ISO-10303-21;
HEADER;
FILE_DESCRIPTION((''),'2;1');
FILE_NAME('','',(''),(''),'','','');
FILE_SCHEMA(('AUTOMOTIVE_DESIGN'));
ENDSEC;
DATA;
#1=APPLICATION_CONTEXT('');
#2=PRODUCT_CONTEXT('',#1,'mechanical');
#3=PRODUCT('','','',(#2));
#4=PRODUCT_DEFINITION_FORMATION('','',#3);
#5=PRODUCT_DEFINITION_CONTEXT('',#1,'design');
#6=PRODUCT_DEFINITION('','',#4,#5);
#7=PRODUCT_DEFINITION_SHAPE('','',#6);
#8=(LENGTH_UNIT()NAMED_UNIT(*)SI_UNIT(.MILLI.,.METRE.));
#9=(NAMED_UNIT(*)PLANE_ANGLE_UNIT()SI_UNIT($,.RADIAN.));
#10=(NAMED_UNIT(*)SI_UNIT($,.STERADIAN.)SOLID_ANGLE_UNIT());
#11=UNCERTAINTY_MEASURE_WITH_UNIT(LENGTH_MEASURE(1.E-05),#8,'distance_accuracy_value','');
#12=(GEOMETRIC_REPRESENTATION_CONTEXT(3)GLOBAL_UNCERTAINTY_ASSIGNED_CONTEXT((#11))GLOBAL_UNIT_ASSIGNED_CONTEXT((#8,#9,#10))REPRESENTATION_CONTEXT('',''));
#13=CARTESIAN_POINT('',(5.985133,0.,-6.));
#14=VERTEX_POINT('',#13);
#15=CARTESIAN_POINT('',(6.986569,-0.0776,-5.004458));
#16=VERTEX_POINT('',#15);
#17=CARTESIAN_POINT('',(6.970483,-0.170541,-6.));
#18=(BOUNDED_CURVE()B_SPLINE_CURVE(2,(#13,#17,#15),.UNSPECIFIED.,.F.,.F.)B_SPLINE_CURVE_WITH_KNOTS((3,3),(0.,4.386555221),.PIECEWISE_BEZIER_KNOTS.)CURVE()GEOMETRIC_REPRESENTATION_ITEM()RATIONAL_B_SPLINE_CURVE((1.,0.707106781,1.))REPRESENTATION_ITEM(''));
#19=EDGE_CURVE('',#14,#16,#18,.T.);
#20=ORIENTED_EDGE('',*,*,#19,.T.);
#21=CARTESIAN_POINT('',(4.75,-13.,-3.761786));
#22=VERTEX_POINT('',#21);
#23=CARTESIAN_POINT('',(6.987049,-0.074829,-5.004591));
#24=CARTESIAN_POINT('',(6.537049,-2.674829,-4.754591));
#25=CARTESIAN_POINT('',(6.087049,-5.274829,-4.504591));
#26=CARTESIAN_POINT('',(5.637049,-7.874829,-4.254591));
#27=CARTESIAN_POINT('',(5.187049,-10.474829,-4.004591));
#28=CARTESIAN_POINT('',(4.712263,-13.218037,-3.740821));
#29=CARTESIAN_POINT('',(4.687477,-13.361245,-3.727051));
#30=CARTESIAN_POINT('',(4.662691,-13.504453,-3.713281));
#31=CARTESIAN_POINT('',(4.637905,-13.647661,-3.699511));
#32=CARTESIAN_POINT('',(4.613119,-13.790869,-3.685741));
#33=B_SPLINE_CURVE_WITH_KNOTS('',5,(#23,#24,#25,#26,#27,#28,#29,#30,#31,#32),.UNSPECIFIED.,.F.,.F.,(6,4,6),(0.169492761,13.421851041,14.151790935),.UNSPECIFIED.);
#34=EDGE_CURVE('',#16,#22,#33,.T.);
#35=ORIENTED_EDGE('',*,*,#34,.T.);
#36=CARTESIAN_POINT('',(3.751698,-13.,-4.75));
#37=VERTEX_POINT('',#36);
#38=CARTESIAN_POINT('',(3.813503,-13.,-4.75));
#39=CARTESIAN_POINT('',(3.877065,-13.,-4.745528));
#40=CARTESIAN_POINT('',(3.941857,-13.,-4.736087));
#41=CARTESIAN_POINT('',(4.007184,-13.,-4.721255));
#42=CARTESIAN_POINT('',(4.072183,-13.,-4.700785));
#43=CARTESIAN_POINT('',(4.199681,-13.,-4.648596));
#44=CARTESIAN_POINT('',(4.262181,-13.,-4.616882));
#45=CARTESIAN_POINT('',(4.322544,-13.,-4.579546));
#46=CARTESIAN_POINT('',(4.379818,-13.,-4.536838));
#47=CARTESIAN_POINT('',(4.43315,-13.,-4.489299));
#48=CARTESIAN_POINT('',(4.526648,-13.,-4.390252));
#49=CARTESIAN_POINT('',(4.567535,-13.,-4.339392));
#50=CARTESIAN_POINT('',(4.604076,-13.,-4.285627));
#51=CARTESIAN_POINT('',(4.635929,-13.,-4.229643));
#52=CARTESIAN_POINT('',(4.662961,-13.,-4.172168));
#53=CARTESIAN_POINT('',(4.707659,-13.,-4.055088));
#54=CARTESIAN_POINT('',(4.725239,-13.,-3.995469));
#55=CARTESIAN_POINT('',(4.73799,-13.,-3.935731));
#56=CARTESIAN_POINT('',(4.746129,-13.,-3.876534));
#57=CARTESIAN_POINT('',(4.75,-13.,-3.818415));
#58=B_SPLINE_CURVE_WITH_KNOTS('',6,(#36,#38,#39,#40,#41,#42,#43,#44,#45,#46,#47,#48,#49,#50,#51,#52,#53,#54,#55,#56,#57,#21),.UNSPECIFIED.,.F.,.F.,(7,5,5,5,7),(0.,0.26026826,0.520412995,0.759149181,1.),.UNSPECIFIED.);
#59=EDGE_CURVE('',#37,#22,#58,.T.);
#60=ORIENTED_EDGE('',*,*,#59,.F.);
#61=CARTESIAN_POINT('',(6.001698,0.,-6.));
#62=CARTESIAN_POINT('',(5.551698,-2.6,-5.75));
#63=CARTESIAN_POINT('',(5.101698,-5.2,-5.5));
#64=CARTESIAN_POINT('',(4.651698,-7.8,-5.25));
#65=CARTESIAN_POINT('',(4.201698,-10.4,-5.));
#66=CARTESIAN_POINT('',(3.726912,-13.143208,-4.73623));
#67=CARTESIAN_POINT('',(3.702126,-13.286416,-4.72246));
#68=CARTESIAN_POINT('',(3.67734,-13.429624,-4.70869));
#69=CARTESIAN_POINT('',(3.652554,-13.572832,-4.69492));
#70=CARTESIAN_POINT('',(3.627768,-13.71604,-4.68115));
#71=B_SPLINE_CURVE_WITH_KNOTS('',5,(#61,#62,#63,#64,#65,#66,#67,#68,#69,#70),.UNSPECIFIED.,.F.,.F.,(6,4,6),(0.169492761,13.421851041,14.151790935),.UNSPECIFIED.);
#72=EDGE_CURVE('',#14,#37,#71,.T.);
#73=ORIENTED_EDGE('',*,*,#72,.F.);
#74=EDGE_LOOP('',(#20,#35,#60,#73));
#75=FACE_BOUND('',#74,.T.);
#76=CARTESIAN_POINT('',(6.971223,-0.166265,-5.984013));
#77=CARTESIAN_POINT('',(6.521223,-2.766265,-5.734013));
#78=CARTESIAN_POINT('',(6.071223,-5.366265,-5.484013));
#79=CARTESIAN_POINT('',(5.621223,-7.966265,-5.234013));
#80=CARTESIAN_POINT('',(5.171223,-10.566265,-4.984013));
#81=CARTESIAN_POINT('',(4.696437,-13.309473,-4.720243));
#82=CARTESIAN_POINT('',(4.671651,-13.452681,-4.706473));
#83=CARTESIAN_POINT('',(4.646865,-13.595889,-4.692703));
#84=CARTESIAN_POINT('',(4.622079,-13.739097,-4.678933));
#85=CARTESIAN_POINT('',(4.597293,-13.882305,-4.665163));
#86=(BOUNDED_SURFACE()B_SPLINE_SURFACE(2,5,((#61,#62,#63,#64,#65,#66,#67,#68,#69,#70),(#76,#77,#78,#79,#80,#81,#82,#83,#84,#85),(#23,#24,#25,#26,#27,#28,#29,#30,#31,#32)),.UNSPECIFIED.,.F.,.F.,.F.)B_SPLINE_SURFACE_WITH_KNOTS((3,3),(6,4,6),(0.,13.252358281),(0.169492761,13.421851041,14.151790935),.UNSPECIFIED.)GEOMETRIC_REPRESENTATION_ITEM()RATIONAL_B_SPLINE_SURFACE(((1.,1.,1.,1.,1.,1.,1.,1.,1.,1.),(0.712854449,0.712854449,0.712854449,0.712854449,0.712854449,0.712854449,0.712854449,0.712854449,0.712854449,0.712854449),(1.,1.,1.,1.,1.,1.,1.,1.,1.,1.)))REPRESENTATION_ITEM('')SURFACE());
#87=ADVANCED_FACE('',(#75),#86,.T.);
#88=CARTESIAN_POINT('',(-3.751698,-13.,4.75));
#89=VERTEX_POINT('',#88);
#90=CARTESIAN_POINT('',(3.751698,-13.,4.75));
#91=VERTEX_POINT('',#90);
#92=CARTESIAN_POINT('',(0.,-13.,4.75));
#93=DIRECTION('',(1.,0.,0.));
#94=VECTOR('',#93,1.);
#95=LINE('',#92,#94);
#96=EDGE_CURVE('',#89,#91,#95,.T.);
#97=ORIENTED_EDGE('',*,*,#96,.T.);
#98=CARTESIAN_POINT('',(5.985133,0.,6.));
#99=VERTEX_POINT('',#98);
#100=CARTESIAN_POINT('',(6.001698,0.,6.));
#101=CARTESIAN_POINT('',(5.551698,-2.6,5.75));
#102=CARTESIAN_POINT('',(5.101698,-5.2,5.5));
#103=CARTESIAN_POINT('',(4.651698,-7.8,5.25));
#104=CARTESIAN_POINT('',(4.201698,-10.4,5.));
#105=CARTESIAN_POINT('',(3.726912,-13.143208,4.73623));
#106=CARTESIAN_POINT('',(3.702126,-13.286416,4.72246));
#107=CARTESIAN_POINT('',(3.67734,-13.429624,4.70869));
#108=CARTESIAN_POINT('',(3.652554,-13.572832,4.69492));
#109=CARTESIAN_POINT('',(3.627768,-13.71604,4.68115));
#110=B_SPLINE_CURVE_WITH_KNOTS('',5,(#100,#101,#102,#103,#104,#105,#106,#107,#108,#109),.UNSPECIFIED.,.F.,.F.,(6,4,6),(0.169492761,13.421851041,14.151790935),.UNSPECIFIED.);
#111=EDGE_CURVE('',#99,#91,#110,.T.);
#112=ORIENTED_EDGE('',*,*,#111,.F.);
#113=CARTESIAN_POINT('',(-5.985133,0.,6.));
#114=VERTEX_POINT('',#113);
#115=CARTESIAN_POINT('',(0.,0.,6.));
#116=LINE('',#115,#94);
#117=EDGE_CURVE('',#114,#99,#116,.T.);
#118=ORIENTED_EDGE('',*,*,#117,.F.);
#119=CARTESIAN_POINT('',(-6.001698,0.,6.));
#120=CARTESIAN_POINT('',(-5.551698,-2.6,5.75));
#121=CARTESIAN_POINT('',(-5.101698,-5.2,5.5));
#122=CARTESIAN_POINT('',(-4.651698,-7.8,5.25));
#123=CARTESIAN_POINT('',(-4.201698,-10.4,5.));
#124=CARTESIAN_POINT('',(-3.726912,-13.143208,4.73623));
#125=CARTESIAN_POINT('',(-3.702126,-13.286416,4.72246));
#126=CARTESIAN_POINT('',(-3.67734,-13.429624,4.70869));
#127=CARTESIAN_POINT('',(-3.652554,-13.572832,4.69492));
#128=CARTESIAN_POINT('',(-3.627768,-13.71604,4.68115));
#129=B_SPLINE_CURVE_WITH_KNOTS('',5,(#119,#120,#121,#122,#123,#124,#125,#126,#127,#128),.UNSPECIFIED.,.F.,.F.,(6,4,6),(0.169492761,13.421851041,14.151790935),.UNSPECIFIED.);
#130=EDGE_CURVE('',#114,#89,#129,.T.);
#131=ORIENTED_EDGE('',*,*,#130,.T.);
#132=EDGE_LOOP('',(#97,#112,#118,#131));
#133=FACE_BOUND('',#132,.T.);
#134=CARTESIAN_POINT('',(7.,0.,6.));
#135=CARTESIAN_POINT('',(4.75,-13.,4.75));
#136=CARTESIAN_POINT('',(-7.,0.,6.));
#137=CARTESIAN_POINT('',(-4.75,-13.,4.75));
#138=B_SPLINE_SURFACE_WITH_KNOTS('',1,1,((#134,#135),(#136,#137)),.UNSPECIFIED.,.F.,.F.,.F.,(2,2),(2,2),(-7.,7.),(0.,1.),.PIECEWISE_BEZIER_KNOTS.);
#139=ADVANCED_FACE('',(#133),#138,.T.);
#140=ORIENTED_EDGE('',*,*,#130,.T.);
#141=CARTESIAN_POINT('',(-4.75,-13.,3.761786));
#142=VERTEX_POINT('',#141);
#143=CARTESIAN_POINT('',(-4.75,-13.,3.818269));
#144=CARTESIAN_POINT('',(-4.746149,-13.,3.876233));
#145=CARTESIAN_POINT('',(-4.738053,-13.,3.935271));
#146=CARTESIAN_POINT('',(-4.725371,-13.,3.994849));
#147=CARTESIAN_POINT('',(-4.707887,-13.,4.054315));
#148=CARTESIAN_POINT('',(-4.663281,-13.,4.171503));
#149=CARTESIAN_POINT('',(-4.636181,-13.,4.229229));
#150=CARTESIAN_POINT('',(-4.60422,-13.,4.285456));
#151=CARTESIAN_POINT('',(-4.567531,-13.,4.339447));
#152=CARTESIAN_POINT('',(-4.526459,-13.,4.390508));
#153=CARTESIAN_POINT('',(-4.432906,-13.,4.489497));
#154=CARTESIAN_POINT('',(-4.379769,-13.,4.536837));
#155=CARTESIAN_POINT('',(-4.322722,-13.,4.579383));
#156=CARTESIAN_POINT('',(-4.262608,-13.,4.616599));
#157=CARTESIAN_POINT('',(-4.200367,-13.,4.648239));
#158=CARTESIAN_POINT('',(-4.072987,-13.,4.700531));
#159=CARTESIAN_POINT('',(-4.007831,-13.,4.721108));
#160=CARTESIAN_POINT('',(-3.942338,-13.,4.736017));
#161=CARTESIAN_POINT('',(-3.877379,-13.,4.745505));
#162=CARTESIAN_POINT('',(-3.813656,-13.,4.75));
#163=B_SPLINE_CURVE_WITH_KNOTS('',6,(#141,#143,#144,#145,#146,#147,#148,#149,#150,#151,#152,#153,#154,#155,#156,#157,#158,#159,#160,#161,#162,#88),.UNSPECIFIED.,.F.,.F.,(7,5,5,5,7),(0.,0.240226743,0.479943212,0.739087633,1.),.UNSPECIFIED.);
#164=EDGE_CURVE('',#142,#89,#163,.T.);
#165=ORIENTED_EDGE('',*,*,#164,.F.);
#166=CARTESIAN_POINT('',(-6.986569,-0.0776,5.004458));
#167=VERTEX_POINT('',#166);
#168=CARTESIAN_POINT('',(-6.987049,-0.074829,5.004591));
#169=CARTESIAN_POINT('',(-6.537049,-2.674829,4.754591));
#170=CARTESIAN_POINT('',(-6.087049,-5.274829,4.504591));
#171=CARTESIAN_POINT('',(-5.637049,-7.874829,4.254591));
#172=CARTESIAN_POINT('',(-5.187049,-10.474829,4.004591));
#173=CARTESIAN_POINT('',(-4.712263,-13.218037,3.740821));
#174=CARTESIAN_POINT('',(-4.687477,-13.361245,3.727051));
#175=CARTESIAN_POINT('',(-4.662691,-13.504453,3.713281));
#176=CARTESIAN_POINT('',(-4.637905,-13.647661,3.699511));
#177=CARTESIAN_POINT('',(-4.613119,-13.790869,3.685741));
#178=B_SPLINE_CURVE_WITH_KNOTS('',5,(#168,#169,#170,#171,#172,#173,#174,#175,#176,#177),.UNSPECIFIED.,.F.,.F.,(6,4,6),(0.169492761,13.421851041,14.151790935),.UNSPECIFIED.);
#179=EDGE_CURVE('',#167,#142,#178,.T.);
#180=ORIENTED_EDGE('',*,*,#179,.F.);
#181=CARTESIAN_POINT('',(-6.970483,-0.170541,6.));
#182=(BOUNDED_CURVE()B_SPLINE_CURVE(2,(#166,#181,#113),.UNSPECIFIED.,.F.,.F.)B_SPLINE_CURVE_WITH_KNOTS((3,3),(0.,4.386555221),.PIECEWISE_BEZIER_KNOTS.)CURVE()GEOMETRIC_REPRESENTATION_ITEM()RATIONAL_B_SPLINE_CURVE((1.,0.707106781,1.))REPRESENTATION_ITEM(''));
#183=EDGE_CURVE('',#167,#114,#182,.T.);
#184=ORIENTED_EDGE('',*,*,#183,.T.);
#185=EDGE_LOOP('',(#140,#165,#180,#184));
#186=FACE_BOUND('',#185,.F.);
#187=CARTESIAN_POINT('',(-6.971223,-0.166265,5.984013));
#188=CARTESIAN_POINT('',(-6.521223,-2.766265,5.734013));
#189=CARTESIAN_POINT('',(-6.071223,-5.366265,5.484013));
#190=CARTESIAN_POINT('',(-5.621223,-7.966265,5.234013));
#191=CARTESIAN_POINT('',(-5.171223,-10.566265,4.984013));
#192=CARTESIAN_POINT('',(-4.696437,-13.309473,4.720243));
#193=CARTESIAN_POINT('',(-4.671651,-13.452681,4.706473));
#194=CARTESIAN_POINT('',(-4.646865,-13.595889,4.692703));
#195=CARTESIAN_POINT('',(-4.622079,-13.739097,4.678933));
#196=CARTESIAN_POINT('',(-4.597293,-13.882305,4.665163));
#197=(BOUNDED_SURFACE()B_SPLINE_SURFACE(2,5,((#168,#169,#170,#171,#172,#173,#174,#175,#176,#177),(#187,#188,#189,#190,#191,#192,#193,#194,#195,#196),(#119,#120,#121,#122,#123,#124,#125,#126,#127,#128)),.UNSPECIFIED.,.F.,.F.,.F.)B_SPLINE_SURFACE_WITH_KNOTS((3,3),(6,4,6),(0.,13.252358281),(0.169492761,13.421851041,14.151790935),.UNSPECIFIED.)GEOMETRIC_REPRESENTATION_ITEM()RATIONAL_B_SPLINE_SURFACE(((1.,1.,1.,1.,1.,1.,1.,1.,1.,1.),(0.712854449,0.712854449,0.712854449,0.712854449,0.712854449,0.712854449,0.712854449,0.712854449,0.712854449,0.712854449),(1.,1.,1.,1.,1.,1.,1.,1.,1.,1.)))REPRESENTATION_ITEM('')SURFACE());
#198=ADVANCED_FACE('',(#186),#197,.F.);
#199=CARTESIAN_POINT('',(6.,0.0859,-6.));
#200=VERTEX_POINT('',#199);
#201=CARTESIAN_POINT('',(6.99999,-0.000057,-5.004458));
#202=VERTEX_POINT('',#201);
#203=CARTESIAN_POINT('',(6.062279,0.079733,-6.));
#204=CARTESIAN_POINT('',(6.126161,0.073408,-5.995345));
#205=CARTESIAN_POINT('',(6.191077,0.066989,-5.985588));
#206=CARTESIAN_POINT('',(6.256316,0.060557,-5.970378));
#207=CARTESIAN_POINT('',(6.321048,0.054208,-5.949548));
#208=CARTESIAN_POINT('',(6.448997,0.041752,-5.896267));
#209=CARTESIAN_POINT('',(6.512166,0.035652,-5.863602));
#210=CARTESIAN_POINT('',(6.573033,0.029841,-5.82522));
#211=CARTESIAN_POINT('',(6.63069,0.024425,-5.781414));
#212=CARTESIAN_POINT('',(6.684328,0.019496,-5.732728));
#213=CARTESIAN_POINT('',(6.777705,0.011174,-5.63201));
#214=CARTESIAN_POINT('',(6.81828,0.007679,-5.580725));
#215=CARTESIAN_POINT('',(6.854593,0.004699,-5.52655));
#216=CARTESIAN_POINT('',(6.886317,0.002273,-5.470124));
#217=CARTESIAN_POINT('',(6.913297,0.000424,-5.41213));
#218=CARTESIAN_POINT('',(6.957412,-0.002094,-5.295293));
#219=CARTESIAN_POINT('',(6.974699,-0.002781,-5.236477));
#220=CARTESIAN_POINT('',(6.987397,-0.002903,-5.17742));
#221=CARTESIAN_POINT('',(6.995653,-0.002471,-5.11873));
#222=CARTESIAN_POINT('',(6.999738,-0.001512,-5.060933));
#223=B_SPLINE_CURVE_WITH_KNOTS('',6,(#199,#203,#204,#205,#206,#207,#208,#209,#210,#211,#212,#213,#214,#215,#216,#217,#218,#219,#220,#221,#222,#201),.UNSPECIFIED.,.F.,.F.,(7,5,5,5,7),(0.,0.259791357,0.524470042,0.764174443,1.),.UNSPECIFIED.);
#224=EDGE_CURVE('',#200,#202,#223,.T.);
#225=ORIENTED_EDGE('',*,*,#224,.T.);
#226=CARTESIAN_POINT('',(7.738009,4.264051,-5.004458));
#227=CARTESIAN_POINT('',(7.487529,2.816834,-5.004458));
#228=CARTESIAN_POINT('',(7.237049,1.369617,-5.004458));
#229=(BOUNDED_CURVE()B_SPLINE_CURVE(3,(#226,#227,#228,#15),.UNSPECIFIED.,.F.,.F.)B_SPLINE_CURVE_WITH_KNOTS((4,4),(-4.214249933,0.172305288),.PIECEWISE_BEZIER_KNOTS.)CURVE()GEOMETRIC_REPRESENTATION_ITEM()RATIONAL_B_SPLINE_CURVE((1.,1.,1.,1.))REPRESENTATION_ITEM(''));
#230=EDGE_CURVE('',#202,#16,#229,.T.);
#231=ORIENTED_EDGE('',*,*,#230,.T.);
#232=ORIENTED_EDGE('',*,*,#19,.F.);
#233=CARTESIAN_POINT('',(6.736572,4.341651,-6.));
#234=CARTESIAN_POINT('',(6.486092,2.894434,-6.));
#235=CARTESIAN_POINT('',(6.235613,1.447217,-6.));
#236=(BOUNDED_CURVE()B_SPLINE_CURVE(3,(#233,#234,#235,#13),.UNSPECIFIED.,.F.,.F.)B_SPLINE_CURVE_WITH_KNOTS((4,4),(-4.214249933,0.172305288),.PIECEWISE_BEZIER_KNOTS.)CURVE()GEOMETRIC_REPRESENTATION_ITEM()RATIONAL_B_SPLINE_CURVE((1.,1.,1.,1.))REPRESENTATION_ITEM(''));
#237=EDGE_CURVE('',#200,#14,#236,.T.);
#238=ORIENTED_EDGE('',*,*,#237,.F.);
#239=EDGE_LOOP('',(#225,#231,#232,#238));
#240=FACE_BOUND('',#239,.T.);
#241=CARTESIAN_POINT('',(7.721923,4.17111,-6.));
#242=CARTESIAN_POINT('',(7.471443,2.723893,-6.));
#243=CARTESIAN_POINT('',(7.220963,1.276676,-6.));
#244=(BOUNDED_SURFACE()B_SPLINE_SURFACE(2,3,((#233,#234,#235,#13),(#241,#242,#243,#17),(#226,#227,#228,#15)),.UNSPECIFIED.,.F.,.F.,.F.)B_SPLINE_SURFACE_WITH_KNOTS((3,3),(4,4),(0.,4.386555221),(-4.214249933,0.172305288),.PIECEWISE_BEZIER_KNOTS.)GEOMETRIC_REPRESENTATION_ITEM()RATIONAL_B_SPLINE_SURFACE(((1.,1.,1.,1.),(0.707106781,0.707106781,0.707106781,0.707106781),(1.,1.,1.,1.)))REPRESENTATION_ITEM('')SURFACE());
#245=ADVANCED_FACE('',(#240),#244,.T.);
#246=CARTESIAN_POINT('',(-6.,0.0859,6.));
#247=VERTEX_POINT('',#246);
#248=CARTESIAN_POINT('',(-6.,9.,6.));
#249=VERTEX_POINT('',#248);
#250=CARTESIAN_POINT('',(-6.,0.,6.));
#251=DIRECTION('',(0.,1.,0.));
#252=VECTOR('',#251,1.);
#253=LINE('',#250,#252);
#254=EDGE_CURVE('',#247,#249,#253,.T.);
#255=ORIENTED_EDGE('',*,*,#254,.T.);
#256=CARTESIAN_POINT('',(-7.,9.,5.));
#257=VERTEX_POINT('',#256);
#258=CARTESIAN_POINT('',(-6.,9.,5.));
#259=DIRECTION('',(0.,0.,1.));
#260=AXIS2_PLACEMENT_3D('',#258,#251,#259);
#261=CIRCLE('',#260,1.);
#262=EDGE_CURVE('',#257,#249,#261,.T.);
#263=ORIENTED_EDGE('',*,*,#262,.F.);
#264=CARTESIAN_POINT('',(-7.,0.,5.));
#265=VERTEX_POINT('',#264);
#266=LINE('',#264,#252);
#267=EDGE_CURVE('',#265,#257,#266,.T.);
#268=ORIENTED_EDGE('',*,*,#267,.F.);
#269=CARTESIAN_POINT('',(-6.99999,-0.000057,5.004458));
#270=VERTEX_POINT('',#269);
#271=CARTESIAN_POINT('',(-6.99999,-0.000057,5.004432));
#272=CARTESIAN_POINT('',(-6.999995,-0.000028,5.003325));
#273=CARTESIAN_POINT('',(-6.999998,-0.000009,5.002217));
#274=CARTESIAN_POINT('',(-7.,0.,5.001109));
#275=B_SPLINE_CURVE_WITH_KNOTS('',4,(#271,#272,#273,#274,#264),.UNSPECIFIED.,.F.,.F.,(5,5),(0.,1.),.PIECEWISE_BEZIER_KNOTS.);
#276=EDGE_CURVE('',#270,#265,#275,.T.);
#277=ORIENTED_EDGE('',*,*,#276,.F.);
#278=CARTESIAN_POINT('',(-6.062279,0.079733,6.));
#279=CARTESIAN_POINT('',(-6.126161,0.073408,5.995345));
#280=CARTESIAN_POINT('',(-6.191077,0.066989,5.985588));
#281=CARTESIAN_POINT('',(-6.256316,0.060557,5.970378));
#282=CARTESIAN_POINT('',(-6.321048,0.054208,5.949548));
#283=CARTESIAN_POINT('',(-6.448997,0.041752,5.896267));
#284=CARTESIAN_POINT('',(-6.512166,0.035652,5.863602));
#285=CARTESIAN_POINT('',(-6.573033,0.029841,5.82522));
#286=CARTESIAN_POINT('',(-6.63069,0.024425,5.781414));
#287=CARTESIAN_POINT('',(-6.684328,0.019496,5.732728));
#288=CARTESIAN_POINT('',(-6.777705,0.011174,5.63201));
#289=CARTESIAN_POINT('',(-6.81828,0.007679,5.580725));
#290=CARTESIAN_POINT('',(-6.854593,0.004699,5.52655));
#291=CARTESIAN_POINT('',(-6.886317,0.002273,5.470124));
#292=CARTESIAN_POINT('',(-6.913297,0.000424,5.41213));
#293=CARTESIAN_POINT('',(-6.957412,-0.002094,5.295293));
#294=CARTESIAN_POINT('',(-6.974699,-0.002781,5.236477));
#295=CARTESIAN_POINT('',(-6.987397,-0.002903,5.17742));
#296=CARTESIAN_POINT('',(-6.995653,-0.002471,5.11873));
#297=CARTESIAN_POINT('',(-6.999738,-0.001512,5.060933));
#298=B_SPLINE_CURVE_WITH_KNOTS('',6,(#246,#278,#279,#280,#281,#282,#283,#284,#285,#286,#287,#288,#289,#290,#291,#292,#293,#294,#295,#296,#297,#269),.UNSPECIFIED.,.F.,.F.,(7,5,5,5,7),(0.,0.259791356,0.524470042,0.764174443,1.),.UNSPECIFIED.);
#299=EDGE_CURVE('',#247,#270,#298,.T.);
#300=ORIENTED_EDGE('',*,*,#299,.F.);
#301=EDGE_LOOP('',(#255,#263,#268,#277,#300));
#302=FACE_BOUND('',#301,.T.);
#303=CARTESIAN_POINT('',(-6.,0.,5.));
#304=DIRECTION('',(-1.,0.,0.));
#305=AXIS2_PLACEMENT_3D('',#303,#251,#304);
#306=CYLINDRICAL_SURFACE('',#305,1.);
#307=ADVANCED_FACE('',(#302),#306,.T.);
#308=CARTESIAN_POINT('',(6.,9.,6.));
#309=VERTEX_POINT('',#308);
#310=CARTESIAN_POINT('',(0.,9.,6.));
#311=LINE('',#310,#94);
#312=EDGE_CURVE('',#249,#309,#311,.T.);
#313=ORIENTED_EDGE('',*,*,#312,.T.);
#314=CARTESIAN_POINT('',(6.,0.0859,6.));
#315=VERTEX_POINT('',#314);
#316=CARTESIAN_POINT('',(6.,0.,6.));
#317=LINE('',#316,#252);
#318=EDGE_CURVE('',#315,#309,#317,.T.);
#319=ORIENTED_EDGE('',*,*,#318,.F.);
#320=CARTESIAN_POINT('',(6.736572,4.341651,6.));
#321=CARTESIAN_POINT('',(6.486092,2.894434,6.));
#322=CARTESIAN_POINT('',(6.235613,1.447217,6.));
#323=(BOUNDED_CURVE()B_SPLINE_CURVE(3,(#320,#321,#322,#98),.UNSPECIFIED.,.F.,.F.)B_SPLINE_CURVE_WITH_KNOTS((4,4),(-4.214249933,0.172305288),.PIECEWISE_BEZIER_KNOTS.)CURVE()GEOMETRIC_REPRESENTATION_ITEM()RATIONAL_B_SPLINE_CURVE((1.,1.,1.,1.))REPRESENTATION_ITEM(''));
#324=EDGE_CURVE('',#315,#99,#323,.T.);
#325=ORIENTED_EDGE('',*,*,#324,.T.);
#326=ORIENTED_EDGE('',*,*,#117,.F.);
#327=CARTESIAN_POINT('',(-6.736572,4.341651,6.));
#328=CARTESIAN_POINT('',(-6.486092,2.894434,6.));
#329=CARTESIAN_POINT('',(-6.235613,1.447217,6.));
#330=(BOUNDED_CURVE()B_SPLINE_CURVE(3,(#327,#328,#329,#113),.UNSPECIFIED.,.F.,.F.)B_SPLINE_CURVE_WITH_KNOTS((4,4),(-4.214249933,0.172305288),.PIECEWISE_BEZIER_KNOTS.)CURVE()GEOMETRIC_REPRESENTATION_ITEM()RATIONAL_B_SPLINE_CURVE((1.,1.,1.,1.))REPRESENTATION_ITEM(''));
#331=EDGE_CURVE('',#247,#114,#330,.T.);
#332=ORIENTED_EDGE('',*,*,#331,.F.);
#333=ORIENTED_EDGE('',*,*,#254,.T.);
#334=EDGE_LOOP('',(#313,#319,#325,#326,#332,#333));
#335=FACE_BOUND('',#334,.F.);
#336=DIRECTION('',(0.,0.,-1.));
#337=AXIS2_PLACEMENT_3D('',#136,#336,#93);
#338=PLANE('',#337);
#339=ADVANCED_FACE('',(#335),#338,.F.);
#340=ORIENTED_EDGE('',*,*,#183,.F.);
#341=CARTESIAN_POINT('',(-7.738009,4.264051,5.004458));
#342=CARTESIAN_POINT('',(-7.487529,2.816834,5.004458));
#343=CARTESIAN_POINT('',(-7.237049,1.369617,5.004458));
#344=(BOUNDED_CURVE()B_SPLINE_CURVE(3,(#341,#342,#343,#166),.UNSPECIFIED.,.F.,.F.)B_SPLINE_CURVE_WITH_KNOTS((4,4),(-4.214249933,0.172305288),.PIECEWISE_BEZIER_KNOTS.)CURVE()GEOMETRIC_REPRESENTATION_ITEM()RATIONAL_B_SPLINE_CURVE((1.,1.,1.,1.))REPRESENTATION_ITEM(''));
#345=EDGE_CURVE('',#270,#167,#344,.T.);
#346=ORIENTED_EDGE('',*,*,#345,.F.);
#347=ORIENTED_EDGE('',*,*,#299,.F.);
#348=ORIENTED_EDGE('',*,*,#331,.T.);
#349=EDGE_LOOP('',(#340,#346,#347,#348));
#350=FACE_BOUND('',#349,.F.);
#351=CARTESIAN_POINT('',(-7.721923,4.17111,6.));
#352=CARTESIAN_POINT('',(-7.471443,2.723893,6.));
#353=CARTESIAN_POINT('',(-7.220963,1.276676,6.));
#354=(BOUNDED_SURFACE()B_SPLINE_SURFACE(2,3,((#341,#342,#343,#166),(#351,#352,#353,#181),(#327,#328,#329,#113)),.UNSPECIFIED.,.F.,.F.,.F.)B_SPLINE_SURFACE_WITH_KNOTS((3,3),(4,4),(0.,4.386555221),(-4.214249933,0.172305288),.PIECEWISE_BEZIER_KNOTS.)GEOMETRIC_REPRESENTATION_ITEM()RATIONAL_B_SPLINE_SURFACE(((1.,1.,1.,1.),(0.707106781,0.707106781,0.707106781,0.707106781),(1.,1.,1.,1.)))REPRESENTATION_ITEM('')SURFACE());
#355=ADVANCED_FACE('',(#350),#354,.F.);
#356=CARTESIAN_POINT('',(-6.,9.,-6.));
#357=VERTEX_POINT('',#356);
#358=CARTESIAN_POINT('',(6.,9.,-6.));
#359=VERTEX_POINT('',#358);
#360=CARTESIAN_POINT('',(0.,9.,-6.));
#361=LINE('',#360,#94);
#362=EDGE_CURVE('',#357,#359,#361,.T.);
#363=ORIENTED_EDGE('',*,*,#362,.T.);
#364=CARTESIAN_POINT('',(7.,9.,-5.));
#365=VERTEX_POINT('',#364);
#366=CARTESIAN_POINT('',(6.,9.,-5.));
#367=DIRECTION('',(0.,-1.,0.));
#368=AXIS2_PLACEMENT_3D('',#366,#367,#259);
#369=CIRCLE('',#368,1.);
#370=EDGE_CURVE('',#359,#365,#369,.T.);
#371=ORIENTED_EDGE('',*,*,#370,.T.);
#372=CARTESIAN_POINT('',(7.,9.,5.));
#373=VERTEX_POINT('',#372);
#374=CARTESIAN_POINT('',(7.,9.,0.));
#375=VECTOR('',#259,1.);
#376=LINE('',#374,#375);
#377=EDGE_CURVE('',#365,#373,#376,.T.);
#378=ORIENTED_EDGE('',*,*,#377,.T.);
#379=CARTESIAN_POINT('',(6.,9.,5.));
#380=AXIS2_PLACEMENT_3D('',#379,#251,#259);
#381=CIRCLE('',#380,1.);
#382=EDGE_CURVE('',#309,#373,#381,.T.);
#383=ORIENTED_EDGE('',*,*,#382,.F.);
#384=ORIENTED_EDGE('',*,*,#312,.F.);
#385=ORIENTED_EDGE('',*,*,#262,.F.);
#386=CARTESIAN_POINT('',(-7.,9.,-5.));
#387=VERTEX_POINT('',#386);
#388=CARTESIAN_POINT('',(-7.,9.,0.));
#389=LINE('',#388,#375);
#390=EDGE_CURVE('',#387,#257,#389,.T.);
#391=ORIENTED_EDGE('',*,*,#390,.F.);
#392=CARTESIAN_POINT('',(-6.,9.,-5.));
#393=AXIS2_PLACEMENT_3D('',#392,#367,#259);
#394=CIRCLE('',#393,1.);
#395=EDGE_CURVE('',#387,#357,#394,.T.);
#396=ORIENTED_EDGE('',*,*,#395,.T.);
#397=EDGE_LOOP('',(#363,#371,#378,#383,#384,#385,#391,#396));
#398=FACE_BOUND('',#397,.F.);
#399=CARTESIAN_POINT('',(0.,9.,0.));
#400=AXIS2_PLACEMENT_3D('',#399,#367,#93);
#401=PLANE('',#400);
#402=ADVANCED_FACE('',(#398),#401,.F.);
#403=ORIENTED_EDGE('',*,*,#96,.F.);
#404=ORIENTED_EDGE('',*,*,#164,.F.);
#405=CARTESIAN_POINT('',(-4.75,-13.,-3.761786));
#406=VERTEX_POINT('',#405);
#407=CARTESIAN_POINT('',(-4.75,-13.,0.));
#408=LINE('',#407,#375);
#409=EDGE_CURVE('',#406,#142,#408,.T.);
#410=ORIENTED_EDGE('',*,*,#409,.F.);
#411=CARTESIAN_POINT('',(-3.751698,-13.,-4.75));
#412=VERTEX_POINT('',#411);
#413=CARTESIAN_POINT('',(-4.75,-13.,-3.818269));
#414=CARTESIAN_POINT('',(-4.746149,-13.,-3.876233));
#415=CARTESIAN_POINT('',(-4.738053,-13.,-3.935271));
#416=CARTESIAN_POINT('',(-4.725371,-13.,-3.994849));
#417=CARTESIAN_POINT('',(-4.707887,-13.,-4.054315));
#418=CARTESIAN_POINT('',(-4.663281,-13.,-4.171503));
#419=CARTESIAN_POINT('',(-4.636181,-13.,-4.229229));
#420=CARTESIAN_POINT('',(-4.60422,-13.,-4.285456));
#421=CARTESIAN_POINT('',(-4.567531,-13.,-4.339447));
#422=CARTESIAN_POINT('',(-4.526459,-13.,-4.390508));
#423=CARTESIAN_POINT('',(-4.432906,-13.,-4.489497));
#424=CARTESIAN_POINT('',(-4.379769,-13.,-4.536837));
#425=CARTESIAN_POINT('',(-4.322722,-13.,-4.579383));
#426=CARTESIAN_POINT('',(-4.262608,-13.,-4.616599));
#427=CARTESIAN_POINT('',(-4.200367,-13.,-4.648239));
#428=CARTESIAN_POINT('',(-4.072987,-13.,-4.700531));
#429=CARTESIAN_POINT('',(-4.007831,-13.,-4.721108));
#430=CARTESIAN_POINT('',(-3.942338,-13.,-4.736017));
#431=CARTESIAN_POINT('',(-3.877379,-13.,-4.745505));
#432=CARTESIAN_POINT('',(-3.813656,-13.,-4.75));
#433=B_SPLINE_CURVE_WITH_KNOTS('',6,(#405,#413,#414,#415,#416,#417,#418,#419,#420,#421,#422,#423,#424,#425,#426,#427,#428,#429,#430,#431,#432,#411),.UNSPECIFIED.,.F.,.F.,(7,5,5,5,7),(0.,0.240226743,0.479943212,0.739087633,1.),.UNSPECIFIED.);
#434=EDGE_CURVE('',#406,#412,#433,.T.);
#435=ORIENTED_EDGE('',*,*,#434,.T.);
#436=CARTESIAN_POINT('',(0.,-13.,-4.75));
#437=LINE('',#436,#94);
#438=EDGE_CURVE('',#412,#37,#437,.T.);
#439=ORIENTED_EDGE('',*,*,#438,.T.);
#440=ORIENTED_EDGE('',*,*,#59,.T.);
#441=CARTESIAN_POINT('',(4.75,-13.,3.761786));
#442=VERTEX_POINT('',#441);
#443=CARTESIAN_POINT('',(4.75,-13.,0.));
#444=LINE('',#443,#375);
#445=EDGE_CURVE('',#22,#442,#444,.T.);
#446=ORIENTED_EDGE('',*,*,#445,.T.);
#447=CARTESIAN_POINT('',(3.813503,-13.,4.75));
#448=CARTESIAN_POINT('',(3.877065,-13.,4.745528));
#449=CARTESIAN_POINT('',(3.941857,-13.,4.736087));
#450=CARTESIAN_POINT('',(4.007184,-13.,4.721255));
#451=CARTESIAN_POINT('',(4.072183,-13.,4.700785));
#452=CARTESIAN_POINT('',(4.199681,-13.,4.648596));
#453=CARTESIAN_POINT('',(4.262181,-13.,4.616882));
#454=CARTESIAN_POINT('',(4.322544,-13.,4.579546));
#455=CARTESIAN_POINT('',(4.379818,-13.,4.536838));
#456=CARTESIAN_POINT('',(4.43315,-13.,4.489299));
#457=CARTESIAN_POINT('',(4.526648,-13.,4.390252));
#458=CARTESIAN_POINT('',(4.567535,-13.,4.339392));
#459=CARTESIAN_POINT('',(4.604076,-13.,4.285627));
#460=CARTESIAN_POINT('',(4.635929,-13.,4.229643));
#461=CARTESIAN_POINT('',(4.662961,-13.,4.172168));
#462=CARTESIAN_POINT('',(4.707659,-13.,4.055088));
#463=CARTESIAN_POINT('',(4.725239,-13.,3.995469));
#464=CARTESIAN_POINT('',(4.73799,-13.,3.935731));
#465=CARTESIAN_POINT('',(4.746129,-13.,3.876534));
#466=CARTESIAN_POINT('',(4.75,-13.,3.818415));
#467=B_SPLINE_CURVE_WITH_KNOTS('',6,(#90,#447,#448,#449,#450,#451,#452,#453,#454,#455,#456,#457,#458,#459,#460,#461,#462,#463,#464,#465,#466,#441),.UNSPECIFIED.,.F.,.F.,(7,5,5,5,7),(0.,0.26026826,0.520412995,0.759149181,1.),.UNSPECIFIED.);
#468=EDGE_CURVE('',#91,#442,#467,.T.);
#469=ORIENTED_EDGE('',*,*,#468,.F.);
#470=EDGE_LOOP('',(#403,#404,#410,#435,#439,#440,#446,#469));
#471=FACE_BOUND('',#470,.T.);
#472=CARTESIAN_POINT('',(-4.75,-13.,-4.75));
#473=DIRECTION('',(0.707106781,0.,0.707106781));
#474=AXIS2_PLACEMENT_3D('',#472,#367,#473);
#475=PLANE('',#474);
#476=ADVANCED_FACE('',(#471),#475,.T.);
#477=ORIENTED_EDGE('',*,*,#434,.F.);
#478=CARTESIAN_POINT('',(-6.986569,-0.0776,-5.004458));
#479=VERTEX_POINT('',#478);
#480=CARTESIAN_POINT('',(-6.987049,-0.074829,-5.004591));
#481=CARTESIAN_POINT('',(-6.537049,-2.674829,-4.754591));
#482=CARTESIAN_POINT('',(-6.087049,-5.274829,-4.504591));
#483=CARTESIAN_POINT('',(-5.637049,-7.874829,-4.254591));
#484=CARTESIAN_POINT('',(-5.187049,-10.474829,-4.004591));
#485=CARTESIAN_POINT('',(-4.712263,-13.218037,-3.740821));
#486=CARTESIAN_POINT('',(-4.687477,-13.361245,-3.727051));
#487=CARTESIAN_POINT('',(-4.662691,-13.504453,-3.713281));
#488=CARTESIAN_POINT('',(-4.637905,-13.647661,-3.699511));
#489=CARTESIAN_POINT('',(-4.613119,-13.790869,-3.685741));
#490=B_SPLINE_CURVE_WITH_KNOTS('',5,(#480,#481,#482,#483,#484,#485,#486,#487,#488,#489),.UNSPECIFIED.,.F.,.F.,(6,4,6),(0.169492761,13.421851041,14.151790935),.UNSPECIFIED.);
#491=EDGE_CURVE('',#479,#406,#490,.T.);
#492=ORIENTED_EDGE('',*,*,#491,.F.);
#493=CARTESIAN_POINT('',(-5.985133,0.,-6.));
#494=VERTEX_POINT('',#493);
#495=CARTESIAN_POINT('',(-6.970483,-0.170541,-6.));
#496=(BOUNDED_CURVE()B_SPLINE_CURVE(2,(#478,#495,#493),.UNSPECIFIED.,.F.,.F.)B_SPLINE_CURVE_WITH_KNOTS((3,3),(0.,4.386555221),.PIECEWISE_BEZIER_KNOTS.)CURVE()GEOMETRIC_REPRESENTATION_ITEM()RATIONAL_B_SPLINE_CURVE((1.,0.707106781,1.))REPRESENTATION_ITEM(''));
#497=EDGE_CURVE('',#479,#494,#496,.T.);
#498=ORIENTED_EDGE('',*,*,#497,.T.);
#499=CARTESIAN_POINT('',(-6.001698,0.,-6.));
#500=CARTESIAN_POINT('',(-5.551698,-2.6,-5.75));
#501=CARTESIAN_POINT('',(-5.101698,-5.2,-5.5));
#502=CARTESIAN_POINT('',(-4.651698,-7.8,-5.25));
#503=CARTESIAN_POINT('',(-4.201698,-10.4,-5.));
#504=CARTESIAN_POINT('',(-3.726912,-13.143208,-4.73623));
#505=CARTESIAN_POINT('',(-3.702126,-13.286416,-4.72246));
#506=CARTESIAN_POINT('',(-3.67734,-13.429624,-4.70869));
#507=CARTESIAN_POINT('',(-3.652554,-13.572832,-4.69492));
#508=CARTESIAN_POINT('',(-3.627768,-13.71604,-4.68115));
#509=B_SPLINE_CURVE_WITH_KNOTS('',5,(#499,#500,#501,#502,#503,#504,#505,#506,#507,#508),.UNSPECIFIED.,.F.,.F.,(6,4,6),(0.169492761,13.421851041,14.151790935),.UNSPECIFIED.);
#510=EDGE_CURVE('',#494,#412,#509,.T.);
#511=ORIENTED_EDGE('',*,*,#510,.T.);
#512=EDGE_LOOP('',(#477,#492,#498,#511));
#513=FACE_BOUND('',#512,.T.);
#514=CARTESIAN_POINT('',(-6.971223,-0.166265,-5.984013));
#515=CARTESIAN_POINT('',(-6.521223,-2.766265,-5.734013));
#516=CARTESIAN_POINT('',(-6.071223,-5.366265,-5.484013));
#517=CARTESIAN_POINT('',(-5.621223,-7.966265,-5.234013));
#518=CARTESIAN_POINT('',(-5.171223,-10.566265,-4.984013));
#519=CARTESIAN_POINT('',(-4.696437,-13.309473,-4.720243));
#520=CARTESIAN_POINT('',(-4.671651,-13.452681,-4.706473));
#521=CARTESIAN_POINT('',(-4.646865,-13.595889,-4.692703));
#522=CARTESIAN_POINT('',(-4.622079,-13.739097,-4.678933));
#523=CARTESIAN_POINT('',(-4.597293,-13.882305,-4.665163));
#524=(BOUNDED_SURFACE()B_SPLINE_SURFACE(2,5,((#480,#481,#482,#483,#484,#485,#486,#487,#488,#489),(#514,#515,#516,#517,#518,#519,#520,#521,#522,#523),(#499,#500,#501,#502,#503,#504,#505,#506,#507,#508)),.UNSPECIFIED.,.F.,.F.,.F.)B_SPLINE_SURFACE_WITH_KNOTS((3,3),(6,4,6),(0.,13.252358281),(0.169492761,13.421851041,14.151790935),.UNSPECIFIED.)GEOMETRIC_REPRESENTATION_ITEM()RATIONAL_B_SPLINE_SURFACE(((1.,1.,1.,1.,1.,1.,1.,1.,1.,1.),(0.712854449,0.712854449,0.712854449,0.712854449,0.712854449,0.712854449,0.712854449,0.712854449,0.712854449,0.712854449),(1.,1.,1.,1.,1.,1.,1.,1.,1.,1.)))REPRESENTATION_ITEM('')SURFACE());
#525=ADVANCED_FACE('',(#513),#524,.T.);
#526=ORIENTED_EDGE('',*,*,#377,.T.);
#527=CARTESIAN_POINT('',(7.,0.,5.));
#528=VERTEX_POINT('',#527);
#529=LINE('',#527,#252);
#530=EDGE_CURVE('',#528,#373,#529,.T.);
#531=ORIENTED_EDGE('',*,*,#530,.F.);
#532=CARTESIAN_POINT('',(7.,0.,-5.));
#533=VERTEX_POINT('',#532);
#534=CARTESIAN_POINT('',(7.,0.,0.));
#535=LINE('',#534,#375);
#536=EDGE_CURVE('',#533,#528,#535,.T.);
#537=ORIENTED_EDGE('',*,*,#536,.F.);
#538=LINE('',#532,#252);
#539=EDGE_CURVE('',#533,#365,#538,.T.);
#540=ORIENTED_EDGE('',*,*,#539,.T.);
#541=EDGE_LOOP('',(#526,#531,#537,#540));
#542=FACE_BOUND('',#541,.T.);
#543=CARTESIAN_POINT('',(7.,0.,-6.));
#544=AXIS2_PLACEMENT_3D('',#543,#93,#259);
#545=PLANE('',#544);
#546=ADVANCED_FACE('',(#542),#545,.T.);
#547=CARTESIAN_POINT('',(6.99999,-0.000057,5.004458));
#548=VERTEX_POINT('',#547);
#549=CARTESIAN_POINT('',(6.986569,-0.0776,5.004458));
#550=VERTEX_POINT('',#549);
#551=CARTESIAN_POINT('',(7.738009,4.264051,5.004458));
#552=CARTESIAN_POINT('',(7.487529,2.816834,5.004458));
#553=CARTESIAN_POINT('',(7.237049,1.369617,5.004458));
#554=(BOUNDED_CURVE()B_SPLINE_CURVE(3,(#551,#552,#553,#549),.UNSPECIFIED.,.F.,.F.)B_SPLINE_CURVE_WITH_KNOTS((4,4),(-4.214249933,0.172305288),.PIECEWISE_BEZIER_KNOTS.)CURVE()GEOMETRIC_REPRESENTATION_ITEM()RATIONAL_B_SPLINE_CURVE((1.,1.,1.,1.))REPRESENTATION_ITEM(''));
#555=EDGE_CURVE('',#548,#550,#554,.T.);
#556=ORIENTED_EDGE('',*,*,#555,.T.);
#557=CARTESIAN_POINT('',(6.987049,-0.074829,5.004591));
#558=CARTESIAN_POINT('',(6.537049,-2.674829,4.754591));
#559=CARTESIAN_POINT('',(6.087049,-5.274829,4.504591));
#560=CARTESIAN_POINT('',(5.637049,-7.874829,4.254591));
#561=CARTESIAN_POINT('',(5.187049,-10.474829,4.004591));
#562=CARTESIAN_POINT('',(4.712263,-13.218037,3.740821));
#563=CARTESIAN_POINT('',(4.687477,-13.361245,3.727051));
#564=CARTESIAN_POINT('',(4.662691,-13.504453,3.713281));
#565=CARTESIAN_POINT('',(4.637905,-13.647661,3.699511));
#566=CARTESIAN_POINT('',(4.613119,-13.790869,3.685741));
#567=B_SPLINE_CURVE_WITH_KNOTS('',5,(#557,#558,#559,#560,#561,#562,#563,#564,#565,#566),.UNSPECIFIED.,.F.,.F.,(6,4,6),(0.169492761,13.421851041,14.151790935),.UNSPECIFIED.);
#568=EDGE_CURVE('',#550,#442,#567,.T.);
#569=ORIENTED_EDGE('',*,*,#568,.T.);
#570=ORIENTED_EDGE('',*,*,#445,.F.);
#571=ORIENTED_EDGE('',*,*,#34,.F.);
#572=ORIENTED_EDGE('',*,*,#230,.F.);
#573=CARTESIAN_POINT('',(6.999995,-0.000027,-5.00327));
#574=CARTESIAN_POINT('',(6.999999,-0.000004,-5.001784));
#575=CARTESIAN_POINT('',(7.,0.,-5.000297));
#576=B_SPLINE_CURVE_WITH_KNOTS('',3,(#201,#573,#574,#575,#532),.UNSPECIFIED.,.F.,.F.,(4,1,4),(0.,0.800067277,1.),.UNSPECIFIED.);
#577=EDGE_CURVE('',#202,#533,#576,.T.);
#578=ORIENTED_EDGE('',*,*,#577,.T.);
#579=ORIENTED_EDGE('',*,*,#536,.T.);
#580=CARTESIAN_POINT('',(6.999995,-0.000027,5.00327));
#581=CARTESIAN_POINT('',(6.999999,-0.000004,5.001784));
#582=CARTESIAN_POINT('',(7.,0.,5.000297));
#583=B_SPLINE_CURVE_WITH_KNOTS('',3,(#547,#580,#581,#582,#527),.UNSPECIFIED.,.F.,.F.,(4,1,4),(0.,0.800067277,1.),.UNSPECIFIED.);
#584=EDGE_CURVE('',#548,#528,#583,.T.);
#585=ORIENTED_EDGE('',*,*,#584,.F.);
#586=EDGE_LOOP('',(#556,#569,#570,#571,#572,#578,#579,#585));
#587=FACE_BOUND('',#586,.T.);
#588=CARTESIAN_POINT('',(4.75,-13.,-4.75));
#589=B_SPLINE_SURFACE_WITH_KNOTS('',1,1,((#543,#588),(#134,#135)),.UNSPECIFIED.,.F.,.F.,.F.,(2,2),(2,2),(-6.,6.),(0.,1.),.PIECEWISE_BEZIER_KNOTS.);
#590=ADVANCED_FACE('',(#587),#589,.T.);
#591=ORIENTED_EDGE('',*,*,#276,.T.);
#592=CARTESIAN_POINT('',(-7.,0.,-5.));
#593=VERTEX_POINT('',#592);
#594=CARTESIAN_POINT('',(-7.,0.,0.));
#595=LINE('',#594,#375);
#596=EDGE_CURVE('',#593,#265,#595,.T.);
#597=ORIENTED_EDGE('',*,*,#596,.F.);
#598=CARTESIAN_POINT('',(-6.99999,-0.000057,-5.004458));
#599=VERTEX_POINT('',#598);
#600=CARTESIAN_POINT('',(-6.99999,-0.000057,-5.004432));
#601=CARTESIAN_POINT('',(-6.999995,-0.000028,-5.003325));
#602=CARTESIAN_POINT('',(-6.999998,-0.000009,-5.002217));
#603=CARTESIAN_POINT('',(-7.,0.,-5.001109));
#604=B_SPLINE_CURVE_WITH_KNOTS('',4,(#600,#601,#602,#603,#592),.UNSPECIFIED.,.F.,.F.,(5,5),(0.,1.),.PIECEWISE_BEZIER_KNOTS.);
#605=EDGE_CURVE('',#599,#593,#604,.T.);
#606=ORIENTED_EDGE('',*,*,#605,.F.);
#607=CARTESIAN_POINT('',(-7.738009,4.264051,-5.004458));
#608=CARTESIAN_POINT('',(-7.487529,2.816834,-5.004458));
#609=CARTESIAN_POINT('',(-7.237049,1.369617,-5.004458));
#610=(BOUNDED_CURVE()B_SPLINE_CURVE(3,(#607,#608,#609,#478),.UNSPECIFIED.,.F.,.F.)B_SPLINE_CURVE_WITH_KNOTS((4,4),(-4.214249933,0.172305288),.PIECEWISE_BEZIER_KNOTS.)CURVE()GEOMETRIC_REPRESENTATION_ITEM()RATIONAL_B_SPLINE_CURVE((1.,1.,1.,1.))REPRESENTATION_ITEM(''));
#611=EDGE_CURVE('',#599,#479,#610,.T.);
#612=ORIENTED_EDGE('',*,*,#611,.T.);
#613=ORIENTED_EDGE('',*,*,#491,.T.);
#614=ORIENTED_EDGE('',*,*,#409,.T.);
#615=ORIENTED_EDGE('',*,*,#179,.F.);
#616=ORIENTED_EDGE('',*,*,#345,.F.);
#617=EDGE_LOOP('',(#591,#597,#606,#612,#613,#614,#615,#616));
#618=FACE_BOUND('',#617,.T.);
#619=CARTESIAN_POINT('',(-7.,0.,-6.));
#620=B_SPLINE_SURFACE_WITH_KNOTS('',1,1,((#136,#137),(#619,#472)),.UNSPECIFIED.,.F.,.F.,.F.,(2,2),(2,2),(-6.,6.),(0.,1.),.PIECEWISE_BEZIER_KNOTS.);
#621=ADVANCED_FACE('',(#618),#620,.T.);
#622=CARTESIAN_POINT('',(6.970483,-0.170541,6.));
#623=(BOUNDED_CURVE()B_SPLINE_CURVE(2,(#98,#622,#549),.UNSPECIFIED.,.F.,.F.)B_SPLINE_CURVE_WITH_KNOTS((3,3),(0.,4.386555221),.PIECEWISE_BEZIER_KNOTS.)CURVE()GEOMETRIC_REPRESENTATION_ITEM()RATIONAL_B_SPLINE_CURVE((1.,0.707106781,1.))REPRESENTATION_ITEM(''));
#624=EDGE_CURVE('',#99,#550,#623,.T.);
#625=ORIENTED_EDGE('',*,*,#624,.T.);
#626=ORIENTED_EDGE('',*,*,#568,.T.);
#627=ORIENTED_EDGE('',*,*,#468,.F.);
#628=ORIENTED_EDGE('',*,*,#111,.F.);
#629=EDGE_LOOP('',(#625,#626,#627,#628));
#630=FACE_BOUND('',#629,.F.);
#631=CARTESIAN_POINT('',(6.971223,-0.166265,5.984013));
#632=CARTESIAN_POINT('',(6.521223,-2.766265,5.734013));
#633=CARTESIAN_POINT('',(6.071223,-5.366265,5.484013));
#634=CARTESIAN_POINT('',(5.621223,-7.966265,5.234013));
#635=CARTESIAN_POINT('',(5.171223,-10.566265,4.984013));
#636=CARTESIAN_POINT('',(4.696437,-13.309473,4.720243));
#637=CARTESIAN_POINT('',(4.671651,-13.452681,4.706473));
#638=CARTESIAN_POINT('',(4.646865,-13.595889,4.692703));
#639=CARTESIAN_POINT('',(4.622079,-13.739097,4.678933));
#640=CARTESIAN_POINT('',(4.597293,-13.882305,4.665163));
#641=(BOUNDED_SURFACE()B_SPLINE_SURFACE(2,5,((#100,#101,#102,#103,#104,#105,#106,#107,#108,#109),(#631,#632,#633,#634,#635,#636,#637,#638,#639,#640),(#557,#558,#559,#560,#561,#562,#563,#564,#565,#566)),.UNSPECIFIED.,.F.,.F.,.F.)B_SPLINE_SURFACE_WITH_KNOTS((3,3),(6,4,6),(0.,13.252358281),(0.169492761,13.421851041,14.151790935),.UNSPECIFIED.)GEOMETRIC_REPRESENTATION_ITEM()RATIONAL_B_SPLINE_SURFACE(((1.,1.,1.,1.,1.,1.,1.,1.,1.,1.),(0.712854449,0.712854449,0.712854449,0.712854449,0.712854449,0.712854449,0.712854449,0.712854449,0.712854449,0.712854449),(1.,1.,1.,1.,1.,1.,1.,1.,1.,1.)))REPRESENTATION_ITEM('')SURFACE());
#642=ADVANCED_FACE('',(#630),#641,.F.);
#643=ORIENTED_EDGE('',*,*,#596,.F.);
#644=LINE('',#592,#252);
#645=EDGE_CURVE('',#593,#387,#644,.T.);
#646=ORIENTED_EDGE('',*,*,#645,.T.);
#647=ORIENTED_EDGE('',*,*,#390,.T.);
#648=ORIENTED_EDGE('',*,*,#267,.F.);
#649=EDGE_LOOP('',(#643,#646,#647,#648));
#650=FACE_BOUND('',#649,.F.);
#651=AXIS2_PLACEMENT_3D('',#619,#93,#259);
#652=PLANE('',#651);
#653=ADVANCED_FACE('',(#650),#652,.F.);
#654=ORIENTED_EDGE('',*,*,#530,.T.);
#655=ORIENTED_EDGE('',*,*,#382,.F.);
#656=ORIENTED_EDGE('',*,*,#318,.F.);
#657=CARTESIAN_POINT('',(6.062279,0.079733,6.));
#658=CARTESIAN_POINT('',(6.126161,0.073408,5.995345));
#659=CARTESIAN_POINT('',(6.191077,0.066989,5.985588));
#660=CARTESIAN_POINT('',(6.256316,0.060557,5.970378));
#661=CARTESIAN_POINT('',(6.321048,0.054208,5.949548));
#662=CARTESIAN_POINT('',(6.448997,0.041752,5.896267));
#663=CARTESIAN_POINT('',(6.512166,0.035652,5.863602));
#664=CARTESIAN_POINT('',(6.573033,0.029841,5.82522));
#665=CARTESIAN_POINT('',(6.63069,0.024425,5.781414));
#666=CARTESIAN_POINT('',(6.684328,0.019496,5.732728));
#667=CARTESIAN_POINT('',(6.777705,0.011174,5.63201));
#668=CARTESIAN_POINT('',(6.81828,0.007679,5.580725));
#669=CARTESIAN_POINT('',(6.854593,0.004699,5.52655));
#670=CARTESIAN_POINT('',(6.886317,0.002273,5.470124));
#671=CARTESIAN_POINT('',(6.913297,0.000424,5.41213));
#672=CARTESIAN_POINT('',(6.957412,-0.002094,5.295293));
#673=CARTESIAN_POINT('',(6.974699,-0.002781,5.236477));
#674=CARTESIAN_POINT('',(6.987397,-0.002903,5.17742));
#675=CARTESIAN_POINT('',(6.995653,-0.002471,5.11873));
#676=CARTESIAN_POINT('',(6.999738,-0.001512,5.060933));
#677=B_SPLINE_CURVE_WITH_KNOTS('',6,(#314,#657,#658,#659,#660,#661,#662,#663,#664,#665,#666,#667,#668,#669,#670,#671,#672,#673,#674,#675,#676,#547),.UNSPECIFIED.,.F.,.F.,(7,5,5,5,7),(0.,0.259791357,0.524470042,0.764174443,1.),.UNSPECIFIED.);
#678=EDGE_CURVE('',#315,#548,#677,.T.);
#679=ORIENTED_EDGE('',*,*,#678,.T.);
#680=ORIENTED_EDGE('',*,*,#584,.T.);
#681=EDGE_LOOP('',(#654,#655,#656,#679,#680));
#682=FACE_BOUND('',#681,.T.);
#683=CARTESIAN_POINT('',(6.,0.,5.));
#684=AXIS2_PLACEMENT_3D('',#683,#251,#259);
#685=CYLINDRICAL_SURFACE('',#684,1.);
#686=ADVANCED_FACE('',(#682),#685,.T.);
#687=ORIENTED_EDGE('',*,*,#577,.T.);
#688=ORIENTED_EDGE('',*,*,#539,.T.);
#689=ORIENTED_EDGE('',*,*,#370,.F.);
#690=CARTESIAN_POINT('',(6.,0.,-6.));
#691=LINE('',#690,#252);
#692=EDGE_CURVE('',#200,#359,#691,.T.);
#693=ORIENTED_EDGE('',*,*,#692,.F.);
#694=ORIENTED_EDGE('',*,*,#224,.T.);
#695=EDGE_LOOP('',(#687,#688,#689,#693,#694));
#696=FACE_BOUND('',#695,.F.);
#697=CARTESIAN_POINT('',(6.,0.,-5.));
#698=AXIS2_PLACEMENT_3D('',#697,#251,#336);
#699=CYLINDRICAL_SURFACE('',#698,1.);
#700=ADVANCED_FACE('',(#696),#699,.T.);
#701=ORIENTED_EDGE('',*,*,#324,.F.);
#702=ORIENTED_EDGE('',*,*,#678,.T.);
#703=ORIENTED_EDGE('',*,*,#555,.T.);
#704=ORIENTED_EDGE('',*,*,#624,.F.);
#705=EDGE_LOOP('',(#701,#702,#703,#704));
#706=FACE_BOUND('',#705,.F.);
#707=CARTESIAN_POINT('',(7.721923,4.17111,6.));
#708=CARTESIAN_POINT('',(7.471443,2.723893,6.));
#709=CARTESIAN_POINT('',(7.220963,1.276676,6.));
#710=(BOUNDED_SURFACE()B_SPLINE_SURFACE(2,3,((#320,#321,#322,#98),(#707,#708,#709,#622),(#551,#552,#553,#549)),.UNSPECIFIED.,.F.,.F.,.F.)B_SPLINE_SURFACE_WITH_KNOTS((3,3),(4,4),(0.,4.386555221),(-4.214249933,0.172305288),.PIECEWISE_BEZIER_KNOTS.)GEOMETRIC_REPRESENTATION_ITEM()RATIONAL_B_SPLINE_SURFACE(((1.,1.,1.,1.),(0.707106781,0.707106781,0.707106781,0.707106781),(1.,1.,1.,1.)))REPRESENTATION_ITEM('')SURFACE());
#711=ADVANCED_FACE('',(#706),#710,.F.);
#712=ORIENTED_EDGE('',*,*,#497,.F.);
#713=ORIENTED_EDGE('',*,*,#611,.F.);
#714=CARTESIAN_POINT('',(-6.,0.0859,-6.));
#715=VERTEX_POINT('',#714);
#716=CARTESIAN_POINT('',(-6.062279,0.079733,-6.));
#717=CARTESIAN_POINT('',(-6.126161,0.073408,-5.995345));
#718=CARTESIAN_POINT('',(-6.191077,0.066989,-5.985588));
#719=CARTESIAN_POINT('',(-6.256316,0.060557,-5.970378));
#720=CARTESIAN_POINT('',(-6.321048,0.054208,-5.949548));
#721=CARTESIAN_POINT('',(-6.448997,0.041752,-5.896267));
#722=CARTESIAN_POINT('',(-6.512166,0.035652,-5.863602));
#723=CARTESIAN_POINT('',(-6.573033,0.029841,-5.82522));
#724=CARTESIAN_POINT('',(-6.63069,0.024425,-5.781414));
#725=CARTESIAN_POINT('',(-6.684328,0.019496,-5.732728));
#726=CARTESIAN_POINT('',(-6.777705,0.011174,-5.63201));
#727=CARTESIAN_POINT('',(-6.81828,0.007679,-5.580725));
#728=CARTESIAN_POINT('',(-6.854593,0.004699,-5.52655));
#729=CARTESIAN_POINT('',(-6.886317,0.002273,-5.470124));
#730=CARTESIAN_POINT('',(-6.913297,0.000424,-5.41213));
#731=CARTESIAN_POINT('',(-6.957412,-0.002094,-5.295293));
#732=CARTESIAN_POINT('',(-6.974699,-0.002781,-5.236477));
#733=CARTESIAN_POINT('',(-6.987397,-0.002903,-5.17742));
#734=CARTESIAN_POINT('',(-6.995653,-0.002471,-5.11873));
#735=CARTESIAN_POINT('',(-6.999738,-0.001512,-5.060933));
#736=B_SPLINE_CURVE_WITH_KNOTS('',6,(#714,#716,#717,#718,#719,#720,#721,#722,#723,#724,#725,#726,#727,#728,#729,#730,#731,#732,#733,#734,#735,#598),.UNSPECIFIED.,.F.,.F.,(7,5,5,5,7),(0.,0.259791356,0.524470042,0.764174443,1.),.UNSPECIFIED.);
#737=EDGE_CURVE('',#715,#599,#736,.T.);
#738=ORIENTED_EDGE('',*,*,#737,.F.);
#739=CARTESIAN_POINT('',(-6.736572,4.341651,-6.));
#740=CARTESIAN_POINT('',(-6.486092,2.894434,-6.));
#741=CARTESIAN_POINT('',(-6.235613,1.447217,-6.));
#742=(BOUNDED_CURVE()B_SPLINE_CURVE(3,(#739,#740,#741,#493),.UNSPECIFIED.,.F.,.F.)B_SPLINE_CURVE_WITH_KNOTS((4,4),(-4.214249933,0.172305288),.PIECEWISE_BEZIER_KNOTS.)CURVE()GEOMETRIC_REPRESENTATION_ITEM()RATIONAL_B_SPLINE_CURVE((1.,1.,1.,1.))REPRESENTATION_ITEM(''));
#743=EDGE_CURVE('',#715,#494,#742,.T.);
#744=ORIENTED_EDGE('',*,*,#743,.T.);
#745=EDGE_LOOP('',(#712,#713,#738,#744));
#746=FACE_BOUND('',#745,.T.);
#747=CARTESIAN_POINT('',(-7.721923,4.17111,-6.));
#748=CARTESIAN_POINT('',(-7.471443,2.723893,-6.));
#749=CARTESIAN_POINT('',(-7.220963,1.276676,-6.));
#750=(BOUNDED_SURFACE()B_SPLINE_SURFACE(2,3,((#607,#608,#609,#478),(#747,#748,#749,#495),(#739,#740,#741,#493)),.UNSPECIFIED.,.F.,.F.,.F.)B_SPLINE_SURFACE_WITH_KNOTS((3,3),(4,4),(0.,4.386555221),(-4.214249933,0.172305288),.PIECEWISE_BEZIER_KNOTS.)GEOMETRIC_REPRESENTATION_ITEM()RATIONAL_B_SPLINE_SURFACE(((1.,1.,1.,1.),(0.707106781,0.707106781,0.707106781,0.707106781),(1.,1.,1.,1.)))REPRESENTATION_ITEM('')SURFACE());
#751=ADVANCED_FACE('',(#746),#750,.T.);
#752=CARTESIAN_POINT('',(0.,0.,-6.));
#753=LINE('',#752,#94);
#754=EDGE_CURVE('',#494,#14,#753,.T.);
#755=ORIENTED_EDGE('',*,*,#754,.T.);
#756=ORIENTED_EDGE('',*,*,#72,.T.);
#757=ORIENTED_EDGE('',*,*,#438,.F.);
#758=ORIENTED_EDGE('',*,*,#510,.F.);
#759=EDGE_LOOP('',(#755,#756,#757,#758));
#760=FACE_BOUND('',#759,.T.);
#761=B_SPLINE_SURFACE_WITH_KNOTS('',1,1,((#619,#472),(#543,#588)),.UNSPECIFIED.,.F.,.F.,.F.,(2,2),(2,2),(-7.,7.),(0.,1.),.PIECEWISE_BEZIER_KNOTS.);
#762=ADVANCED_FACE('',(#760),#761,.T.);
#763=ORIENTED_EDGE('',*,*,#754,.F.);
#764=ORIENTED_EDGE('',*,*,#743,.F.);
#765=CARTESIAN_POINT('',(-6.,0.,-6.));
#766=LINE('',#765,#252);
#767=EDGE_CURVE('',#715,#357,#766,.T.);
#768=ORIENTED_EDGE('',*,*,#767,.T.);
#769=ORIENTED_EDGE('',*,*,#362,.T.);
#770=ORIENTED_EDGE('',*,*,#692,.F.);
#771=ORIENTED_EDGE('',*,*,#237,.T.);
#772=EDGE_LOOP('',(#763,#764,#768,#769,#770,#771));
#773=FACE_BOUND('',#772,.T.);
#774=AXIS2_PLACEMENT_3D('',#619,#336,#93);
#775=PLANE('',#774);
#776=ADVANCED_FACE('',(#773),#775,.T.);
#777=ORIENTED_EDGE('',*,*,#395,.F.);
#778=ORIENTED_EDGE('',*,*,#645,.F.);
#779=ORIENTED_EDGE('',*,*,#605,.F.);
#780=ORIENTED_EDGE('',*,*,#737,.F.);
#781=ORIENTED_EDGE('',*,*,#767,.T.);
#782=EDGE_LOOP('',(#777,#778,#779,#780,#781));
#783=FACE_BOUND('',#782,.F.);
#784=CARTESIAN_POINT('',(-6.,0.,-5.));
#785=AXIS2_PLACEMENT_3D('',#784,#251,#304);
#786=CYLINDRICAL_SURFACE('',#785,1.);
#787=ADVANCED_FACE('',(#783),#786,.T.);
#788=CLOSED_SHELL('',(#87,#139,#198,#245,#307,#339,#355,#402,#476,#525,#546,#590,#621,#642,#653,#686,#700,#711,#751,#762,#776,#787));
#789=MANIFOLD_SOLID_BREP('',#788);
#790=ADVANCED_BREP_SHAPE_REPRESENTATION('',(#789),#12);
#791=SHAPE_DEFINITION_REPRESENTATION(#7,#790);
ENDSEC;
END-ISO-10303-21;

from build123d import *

# Parameters (mm, degrees)
SKETCH047_W  = 14
SKETCH047_H  = 12
PAD042_DEPTH = 9
SKETCH046_W  = 14
SKETCH046_H  = 12
SKETCH048_W  = 9.5
SKETCH048_H  = 9.5
FILLET002_R  = 1


with BuildPart() as part:
    # Sketch047 → Pad042 (new body)
    with BuildSketch(Plane.XZ):
        Rectangle(SKETCH047_W, SKETCH047_H)
    extrude(amount=-PAD042_DEPTH)

    # Sketch046 (on Face5 of Pad042) → AdditiveLoft section 0
    with BuildSketch(Plane.XZ):
        Rectangle(SKETCH046_W, SKETCH046_H)
    # Sketch048 (on DatumPlane) → AdditiveLoft section 1
    with BuildSketch(Plane.XZ.offset(13)):
        Rectangle(SKETCH048_W, SKETCH048_H)
    loft()

    # Fillet002
    fillet002_edges = [part.edges().sort_by_distance(p)[0] for p in [
        (-7, 4.5, -6),
        (-5.875, -6.5, -5.375),
        (-5.875, -6.5, 5.375),
        (-7, 4.5, 6),
        (7, 4.5, -6),
        (5.875, -6.5, -5.375),
        (7, 4.5, 6),
        (5.875, -6.5, 5.375),
    ]]
    fillet(fillet002_edges, radius=FILLET002_R)


solid = part.part
